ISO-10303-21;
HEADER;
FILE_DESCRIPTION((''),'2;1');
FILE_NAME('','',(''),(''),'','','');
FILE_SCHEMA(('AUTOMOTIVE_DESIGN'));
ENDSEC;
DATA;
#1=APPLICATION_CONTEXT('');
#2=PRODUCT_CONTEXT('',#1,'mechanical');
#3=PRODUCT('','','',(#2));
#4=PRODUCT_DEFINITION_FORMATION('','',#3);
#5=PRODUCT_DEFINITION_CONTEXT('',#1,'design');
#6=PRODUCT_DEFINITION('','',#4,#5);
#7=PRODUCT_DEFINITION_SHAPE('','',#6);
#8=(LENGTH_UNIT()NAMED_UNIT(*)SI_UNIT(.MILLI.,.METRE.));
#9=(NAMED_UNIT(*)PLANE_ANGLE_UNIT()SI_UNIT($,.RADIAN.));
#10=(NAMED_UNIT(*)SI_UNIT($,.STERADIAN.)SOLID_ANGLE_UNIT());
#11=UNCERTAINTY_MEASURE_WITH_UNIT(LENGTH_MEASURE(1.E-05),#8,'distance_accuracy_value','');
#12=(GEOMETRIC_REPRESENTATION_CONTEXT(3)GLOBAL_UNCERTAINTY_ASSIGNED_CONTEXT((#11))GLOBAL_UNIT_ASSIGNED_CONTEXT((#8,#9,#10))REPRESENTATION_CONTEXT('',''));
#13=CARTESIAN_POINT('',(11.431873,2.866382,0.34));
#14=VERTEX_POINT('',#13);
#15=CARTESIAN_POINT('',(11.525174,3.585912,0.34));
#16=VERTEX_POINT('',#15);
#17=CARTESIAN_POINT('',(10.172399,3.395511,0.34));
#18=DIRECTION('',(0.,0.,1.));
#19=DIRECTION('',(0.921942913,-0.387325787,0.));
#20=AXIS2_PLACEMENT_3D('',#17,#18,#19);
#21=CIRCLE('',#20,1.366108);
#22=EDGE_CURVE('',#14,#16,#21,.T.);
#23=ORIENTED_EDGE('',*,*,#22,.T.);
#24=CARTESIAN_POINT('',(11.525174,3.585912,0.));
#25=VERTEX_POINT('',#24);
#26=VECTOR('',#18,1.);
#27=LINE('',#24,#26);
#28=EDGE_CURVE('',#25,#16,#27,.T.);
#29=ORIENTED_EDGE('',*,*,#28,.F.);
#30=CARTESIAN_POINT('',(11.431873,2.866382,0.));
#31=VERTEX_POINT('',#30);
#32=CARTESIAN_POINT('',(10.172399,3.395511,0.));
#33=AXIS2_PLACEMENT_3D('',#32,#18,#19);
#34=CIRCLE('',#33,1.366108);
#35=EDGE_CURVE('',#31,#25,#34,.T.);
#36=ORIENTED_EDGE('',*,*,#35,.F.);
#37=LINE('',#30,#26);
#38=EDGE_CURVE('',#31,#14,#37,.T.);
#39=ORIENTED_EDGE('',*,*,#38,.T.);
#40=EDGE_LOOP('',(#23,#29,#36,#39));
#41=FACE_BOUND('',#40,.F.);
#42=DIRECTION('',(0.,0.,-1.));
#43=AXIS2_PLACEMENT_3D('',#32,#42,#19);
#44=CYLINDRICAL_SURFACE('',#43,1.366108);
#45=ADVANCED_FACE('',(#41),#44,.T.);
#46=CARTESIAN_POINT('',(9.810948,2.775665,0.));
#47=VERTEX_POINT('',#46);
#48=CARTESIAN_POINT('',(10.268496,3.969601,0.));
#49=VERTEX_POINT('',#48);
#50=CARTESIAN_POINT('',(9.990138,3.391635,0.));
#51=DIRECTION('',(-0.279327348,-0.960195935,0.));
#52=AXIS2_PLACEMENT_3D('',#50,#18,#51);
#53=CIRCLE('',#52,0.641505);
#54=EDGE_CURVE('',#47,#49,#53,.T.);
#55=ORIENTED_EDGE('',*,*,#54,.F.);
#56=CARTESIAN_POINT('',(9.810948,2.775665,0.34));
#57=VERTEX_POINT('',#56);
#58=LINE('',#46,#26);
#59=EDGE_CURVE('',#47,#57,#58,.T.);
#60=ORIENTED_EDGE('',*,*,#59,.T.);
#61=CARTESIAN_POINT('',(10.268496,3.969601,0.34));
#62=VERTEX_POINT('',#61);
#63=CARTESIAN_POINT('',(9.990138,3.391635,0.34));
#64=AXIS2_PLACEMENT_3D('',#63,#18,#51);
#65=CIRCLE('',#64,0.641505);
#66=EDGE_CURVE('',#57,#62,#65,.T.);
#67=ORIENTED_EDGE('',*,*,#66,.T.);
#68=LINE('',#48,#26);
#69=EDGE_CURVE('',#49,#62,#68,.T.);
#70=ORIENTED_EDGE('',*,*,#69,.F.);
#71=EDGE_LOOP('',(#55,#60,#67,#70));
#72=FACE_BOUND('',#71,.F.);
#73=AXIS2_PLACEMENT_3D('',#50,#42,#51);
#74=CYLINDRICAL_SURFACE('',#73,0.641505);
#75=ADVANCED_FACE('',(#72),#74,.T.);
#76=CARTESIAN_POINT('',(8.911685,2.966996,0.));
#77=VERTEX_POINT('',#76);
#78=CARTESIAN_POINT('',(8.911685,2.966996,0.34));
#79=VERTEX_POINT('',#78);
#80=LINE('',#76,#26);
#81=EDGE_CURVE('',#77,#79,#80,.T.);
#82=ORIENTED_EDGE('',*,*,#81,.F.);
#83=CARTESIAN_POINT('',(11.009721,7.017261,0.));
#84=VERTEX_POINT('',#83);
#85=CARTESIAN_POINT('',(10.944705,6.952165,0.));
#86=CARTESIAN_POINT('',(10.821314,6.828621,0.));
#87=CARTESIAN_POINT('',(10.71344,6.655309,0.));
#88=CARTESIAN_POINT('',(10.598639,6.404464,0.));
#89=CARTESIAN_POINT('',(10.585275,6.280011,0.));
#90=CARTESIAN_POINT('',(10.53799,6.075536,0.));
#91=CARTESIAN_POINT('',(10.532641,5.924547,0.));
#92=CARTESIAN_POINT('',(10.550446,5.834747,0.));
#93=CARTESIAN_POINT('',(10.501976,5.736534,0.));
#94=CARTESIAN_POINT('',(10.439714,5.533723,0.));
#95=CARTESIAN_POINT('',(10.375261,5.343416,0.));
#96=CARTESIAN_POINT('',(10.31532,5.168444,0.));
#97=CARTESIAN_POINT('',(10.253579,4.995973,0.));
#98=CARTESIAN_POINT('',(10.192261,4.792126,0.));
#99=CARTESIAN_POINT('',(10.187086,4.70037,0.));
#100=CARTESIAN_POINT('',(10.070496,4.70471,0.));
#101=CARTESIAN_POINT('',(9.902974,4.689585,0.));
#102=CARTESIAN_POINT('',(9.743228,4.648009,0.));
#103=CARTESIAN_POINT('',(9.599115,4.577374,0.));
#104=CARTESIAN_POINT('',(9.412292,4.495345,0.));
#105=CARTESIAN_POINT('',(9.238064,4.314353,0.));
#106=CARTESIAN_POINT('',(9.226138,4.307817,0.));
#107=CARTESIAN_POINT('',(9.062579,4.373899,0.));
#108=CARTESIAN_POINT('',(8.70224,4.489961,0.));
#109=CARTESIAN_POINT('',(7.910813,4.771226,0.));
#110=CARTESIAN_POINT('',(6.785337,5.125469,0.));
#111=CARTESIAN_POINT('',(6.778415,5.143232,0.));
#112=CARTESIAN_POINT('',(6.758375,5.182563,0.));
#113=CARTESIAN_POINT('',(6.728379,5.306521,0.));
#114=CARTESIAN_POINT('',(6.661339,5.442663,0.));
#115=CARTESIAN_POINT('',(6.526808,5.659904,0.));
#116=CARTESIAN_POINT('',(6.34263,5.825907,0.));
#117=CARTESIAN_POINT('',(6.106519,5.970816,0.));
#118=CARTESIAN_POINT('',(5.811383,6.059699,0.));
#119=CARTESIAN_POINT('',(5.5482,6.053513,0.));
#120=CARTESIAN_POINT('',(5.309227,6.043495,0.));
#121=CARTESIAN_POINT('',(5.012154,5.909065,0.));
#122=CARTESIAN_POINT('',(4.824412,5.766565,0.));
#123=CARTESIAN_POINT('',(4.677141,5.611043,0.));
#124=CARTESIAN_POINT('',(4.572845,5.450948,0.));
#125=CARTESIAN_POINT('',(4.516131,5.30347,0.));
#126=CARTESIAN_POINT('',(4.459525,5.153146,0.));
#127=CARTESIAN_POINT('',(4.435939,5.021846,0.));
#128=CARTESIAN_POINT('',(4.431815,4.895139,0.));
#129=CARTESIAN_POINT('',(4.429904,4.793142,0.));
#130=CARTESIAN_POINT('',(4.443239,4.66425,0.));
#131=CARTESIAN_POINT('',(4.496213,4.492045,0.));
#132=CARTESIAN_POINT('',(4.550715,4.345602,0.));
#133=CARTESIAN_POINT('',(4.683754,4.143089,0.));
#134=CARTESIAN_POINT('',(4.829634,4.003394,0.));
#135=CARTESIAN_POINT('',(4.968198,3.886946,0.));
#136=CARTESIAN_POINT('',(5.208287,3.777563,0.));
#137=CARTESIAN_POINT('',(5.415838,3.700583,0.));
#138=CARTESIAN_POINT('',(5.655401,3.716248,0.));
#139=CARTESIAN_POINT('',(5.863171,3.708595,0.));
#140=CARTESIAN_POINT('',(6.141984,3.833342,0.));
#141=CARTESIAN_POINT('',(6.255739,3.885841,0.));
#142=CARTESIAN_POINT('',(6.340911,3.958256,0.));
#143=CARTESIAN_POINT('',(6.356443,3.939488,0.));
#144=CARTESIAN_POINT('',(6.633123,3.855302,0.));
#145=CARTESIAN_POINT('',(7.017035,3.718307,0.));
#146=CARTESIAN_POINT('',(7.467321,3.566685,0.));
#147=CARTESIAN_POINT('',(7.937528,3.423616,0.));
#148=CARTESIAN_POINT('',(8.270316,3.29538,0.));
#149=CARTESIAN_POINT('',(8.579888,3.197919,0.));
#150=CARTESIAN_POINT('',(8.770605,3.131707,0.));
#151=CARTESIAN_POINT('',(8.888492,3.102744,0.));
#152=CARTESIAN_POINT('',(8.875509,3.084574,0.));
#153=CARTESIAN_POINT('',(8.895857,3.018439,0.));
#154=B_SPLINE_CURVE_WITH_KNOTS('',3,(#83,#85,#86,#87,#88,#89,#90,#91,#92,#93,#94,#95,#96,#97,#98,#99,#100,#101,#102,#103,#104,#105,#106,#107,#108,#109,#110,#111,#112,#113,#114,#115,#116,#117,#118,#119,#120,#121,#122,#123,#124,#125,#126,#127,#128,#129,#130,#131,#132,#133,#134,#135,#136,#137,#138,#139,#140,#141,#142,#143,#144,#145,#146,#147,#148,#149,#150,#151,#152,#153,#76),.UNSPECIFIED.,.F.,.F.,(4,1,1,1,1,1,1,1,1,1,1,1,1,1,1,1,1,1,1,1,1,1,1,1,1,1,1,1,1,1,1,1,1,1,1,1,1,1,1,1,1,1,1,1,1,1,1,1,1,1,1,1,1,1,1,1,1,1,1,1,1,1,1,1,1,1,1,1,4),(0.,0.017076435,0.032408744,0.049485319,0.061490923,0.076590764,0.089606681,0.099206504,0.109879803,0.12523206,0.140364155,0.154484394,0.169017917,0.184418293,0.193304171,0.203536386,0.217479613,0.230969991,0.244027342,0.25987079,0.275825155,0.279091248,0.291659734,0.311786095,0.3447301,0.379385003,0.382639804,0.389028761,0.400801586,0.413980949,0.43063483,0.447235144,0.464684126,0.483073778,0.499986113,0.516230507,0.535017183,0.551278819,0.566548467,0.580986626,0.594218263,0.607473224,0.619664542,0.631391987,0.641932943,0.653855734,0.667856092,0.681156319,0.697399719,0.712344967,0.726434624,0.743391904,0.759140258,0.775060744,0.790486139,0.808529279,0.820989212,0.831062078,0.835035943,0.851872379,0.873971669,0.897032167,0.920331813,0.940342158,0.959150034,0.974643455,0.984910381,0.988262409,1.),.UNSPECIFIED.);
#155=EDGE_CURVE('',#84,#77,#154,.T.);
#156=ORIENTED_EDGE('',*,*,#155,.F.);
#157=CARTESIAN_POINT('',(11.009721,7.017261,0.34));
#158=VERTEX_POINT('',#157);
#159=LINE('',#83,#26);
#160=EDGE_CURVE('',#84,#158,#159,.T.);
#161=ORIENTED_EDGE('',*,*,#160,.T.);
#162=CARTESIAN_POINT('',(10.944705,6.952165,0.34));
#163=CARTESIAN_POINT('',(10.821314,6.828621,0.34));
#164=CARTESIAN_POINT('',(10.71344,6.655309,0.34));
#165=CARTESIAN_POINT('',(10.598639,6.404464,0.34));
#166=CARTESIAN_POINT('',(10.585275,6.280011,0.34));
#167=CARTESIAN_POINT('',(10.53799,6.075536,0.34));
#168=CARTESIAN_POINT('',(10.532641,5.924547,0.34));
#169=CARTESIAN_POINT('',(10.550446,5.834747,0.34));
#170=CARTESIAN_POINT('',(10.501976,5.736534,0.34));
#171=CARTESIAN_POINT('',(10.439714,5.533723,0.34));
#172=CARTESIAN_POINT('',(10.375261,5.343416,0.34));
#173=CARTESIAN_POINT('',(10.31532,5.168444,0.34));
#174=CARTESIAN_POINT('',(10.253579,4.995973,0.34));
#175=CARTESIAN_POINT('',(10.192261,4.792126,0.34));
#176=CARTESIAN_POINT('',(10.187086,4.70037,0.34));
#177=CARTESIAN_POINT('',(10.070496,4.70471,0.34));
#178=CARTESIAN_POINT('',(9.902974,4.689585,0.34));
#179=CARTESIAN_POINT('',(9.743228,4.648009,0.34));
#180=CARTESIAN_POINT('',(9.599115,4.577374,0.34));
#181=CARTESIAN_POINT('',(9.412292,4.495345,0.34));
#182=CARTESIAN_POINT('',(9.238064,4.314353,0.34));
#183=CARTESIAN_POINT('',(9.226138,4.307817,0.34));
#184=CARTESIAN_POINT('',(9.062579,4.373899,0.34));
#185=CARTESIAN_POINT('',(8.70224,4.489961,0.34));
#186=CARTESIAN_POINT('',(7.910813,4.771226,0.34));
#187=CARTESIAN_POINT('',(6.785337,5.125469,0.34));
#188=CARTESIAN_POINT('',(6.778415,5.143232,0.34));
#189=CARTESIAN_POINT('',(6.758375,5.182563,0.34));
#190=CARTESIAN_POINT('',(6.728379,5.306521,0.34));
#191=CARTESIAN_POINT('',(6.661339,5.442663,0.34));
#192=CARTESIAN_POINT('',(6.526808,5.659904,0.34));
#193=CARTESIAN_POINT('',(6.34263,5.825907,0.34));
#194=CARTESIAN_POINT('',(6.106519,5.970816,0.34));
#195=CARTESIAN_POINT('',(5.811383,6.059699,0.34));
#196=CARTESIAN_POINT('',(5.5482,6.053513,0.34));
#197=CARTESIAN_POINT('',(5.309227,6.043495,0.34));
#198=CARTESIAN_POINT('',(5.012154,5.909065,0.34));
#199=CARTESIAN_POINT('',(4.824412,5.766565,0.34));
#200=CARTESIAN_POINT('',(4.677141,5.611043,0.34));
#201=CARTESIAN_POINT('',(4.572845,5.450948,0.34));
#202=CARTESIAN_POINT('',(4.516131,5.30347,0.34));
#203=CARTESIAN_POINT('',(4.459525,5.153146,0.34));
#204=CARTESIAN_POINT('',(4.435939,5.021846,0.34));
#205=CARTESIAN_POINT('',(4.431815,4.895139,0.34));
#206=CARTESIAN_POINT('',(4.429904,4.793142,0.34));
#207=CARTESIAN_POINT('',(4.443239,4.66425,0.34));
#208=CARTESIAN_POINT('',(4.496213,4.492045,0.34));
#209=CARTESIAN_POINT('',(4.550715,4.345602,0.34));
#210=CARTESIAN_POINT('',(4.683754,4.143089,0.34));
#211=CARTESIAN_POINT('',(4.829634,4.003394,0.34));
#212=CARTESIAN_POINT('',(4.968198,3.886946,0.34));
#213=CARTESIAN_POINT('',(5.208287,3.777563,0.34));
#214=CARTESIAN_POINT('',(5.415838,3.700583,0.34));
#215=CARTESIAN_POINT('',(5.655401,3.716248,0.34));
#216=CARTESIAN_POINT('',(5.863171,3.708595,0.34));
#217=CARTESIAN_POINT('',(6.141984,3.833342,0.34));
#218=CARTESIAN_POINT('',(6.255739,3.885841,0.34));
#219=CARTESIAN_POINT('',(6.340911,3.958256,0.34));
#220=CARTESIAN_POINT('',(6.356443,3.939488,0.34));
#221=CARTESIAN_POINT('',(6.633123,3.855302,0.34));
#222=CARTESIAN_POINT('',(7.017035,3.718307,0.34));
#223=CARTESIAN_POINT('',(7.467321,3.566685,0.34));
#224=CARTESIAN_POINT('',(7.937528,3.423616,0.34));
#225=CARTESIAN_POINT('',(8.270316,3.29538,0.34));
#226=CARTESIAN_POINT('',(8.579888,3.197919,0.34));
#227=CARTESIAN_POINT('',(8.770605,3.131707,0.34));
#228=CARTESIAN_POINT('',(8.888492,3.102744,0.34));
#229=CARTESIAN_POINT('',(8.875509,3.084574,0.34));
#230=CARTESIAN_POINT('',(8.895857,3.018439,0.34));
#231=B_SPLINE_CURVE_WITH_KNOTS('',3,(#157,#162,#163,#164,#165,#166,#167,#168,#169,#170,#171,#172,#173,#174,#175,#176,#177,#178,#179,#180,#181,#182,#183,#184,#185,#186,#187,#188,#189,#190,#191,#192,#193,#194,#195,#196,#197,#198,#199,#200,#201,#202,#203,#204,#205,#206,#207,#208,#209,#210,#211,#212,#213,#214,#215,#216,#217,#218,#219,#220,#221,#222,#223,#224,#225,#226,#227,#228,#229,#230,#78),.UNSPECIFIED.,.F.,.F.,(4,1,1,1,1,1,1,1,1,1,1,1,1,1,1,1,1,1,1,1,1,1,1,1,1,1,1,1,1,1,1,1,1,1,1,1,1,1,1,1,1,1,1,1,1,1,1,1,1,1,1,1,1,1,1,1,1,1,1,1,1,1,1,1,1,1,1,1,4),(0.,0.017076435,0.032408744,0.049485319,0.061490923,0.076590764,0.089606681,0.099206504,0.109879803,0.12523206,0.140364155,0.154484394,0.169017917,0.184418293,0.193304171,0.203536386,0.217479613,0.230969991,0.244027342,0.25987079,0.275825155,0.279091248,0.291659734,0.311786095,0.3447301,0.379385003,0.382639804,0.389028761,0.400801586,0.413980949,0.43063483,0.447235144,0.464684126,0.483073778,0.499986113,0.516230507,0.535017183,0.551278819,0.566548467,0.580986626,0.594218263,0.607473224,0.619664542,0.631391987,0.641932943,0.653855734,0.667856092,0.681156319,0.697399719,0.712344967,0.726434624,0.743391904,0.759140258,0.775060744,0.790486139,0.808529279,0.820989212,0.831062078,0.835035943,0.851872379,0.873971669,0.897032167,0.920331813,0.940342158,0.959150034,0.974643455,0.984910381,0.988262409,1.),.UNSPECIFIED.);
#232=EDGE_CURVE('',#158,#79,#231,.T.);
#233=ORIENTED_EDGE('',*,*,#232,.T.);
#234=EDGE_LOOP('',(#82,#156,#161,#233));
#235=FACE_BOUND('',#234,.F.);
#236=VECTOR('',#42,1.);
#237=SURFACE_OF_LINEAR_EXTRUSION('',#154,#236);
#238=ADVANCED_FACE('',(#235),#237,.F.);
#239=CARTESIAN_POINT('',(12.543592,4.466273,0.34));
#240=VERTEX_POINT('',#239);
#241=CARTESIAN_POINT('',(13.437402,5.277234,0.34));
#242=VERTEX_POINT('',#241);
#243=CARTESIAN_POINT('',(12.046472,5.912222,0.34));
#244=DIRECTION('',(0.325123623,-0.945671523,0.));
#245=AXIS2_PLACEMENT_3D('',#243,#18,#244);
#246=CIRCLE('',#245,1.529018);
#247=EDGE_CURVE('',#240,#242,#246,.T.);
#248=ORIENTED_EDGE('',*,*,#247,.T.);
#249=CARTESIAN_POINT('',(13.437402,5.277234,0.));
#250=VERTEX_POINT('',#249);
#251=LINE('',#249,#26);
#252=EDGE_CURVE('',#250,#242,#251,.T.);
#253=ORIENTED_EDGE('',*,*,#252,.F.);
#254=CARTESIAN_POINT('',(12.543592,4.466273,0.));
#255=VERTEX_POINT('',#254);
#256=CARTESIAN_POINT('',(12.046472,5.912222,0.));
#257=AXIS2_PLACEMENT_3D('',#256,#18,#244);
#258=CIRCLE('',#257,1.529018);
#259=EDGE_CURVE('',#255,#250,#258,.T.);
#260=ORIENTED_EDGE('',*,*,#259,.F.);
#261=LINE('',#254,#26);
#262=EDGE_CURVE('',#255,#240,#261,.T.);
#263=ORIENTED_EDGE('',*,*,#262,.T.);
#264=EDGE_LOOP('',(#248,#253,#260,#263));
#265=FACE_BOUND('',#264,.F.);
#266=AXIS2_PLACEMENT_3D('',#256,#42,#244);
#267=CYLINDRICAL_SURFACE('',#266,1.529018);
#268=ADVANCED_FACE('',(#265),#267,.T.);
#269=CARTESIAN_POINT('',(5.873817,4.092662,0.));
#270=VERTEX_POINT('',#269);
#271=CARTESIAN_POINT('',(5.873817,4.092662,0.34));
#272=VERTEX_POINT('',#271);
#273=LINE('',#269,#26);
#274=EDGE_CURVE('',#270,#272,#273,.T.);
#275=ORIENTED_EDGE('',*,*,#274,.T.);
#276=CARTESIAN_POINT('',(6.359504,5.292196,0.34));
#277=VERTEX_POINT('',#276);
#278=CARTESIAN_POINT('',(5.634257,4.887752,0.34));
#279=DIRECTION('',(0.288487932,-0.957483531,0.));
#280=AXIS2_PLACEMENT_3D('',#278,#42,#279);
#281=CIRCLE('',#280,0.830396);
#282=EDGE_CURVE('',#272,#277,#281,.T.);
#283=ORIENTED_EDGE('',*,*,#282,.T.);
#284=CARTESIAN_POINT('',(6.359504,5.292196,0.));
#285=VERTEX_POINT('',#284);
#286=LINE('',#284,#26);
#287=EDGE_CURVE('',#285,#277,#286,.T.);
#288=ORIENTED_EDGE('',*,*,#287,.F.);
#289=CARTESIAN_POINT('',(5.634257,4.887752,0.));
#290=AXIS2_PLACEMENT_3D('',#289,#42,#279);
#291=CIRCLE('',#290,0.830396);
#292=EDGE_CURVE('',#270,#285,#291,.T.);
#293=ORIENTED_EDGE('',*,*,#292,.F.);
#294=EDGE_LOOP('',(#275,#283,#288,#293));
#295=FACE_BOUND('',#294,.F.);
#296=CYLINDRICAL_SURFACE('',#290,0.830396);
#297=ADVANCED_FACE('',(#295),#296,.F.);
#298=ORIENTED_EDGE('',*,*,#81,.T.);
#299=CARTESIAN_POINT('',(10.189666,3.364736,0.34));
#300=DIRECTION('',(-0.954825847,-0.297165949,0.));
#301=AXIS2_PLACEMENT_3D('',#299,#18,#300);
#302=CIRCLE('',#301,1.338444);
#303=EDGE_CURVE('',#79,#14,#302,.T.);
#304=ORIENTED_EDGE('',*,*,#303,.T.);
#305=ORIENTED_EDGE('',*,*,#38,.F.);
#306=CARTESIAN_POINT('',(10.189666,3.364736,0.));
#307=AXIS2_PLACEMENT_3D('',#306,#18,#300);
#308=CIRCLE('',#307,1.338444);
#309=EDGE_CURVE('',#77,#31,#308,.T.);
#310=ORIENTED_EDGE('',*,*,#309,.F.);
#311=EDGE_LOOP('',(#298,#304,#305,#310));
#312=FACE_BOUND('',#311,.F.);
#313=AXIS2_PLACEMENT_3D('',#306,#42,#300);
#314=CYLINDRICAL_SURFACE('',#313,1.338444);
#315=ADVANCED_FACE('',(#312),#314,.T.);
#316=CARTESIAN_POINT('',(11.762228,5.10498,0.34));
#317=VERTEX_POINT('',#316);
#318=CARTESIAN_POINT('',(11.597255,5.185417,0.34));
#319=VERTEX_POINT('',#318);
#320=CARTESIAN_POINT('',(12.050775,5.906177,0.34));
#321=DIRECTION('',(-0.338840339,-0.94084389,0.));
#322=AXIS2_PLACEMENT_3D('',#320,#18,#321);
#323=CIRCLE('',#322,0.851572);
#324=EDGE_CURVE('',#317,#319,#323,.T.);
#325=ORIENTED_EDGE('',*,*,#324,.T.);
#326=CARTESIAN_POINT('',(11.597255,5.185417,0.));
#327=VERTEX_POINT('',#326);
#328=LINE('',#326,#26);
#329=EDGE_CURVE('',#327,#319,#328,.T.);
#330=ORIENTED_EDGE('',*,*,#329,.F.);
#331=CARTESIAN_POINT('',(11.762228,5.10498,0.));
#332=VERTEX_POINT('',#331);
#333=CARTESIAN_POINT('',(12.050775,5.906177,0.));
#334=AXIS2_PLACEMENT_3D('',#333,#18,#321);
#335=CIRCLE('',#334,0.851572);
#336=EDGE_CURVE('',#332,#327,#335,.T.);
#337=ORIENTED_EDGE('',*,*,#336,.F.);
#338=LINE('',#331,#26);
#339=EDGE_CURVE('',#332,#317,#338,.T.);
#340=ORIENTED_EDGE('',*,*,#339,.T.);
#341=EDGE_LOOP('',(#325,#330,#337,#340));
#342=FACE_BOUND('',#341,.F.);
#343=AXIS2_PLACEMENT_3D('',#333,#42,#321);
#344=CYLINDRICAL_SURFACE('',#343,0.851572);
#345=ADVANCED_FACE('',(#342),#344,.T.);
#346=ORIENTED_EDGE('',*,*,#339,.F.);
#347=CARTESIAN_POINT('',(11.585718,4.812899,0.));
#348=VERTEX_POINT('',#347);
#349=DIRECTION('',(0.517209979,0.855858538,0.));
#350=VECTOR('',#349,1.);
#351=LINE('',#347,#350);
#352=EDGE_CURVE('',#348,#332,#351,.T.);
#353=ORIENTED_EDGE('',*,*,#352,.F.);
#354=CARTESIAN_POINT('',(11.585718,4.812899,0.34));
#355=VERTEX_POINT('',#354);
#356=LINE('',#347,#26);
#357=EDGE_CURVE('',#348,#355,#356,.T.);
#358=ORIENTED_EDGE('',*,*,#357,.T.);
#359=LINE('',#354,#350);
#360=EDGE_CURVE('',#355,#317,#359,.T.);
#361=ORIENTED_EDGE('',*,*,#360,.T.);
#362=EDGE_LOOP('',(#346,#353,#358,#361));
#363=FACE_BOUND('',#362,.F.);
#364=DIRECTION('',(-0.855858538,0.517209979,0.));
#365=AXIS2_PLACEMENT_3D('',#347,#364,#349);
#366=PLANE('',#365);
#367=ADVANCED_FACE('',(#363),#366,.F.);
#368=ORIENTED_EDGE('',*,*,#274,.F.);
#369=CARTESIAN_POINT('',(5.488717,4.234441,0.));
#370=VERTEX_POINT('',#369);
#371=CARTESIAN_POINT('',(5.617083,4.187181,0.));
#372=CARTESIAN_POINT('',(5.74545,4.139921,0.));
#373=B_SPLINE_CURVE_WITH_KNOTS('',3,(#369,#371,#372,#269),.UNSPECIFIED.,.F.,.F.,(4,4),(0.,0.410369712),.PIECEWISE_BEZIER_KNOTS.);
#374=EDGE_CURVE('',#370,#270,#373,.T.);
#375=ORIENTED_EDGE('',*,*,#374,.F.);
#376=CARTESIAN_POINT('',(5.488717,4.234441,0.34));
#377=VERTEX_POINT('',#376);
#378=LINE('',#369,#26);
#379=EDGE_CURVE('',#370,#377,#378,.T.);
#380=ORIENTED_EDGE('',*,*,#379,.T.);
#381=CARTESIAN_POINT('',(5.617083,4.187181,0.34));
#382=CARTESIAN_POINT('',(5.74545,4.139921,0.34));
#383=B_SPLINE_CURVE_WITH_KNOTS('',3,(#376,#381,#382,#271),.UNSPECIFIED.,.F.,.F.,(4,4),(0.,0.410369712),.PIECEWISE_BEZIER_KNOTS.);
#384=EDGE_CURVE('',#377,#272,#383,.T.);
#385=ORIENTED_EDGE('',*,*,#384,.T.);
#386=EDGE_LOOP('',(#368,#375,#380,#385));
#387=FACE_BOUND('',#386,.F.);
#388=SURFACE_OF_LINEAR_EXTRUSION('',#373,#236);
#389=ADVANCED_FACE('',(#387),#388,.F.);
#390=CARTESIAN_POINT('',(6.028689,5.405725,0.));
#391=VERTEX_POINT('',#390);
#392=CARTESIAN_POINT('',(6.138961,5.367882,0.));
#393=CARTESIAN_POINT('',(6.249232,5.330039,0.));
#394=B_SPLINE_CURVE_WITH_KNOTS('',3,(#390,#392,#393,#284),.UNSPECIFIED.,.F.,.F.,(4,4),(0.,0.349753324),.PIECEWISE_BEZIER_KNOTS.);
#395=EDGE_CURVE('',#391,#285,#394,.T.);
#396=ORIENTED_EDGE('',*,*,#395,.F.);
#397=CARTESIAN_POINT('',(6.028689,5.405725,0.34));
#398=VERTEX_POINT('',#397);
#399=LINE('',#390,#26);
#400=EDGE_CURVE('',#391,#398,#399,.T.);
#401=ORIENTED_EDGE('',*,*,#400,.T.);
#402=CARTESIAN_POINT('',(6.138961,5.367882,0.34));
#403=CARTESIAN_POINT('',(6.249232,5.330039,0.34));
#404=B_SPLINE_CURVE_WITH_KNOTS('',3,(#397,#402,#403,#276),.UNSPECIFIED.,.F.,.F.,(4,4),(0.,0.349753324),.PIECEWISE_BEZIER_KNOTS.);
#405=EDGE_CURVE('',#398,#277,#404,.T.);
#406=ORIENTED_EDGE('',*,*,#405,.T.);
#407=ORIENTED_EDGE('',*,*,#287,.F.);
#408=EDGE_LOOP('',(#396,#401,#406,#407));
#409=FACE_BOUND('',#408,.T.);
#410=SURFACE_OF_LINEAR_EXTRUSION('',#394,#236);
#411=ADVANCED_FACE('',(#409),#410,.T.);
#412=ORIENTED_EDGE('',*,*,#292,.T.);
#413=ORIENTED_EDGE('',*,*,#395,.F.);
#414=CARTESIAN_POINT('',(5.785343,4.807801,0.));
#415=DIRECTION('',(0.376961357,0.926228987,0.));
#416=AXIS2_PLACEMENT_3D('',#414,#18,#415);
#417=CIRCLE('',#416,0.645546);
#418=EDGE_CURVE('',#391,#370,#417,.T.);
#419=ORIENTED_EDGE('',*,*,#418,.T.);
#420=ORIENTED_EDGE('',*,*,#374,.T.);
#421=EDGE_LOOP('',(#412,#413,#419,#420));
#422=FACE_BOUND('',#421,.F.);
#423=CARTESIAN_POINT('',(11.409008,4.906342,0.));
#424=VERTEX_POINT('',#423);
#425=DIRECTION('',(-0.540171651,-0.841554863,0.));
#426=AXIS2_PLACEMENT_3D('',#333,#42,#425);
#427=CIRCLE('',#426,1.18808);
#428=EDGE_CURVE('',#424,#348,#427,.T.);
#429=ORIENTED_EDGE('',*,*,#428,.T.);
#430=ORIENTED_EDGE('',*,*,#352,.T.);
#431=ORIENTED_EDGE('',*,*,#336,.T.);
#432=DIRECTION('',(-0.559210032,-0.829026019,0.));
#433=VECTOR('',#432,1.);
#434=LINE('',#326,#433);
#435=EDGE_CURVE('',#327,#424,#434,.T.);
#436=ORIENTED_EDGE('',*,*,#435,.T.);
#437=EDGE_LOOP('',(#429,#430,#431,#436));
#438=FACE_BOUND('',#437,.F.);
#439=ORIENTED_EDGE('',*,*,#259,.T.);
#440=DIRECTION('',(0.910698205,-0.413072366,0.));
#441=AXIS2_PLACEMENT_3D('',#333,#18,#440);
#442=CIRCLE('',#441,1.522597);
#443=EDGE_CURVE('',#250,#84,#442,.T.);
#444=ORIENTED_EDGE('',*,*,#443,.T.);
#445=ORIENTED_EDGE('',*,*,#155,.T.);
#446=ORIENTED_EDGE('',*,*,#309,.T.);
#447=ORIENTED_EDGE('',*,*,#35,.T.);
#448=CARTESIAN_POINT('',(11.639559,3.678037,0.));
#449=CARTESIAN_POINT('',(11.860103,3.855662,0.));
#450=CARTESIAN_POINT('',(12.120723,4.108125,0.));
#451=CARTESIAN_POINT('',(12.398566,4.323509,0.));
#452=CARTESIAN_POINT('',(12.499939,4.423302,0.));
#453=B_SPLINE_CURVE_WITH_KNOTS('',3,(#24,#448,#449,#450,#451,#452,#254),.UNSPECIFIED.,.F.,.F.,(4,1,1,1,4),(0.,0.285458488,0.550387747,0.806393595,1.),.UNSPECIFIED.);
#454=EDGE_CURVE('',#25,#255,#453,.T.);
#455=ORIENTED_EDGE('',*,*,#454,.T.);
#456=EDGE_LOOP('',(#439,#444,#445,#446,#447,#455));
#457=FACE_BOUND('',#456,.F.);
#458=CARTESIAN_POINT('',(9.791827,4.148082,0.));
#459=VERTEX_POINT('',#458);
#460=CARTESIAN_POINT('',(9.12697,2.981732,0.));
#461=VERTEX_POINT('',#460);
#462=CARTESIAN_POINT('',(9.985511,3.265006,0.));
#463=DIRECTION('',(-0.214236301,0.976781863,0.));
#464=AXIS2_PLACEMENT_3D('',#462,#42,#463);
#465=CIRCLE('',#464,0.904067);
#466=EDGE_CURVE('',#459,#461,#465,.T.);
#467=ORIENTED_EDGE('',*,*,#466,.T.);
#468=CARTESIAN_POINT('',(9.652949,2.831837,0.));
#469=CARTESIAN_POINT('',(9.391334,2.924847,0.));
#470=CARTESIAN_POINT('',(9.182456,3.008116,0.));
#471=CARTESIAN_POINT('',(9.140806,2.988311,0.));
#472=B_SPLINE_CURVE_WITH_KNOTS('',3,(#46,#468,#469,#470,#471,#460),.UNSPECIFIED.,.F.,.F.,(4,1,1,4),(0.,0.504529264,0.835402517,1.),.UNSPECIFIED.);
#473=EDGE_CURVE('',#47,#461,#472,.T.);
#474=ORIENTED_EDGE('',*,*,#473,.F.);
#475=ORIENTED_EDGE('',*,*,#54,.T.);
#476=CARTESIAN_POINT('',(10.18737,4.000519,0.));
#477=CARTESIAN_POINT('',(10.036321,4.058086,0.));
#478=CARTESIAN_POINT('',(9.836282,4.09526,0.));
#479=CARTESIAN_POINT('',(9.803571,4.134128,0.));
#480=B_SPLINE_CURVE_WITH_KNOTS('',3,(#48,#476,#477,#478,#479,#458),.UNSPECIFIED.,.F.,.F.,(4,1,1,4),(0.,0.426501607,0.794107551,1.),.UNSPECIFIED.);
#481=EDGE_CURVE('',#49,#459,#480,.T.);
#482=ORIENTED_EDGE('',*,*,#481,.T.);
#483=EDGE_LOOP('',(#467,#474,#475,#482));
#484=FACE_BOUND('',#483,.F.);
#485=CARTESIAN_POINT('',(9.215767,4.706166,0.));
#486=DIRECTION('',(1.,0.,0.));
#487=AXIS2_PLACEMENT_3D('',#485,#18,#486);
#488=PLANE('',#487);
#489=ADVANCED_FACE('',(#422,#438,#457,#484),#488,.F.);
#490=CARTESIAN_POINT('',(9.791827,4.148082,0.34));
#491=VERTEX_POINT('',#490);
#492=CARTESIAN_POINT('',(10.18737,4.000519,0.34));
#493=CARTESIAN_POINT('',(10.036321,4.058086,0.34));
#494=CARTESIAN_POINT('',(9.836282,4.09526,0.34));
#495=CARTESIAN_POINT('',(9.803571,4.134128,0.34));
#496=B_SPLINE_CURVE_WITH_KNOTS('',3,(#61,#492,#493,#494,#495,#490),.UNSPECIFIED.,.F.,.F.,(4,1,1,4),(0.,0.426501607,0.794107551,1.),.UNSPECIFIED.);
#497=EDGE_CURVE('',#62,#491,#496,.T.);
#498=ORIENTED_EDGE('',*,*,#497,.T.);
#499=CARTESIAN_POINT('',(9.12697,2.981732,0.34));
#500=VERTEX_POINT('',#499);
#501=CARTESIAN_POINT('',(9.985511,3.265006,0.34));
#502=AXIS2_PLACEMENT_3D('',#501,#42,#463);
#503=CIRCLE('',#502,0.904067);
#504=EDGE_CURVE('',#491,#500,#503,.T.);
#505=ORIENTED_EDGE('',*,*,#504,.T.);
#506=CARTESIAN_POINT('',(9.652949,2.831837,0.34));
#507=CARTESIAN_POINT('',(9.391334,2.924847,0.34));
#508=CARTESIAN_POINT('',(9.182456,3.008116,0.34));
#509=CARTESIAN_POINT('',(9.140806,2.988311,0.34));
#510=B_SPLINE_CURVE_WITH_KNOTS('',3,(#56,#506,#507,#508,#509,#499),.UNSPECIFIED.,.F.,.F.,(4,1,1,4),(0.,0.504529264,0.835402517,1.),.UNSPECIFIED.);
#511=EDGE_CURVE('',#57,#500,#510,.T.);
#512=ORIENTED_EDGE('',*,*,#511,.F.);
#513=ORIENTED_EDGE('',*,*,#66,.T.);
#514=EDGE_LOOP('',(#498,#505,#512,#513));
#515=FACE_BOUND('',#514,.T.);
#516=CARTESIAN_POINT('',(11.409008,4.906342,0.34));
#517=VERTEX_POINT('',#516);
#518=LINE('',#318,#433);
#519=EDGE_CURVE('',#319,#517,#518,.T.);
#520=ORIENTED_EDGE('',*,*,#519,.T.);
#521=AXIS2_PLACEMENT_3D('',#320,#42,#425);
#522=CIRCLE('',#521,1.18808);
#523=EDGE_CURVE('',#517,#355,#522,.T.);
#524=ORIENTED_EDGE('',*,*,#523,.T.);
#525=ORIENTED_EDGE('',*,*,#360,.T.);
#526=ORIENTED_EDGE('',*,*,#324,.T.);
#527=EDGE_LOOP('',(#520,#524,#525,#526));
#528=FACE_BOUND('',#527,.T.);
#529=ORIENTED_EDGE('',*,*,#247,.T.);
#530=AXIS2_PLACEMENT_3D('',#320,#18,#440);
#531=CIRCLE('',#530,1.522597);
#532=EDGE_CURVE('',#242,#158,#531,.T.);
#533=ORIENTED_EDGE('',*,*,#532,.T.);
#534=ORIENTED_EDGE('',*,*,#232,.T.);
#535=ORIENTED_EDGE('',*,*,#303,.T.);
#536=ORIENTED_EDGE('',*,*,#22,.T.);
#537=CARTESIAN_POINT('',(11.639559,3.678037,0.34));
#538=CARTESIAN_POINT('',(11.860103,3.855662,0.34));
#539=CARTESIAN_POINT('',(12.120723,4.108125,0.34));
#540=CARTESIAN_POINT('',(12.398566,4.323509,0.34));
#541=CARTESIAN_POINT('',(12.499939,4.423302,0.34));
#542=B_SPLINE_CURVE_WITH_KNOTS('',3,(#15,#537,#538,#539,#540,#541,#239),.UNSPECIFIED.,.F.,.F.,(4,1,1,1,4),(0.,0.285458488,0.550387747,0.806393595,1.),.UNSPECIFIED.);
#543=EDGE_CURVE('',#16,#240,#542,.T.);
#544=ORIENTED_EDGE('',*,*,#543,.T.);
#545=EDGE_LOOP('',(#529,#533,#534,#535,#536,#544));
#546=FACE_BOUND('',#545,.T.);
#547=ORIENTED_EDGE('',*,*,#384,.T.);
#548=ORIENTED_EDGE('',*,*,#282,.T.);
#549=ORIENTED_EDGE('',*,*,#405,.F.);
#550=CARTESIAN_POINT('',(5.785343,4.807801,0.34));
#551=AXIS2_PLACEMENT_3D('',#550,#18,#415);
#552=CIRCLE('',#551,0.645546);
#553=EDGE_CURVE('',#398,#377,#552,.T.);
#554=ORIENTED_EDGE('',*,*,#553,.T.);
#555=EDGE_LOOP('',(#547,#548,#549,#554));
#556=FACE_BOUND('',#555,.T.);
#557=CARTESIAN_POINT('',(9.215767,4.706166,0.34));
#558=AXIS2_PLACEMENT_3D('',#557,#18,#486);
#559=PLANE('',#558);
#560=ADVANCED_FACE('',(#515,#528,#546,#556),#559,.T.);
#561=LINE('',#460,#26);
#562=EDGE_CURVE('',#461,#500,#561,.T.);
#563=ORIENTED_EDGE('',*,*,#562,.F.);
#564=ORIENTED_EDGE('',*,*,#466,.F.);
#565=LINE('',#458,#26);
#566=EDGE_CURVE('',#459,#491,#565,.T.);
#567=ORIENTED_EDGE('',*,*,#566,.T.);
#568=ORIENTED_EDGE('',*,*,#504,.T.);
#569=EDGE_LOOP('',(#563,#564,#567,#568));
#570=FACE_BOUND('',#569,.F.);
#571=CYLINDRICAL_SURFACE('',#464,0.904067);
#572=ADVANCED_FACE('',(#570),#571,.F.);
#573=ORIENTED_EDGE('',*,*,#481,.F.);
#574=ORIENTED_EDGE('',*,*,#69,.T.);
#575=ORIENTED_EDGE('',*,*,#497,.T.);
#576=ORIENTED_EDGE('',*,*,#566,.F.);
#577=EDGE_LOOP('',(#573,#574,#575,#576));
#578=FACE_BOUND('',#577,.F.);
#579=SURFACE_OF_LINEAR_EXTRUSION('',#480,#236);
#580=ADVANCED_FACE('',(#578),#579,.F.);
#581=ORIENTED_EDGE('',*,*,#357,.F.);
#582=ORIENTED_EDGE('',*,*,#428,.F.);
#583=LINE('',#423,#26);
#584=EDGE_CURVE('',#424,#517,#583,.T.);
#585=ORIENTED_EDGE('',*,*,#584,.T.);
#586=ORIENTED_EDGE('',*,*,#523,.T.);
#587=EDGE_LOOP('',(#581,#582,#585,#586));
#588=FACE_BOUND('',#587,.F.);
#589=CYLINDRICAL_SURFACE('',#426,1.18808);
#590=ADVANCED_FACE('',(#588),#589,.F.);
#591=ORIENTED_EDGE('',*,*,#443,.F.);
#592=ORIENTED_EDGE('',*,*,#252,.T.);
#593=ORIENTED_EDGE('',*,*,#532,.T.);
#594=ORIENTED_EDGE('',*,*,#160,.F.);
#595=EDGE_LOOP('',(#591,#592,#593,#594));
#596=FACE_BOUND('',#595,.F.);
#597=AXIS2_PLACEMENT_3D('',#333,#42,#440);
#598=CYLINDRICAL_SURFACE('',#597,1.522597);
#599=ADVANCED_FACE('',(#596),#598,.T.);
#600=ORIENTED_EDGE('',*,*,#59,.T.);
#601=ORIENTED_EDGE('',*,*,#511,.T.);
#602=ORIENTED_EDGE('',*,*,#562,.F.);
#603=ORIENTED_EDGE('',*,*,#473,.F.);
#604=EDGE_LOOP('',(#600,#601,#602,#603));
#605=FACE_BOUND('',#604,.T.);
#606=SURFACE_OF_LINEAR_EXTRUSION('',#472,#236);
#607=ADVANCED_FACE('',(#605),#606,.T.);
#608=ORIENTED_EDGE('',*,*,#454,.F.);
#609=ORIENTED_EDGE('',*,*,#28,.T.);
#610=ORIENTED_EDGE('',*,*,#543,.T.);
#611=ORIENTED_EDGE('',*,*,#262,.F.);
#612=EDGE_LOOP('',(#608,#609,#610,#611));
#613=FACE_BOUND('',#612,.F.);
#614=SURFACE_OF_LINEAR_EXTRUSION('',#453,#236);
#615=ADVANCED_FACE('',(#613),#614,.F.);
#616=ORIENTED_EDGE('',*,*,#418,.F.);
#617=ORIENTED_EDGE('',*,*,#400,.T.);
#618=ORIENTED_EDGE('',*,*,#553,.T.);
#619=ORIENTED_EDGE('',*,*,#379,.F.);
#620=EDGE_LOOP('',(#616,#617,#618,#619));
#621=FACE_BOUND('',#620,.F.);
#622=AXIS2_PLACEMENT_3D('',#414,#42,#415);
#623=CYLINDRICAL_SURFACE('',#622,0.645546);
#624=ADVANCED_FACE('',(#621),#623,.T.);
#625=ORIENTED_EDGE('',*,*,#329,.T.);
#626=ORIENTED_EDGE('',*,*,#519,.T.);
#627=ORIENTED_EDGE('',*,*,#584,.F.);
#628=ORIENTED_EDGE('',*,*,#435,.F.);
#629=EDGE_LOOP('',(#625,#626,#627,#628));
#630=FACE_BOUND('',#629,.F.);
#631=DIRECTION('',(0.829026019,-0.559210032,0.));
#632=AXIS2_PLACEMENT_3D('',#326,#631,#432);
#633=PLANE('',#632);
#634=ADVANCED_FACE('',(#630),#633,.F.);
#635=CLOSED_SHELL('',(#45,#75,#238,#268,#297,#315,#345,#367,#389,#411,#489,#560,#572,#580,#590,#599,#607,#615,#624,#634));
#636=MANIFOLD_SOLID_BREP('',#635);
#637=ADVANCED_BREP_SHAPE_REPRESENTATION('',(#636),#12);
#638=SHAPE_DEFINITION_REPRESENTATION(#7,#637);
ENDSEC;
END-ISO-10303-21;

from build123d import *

# Parameters (mm, degrees)
F1_DEPTH = 0.34


with BuildPart() as f1:
    # F0 (on Top) → F1 (new body)
    with BuildSketch(Plane.XY):
        with BuildLine():
            ThreePointArc((12.5435916707, 4.4662733562), (13.0738942871, 4.7798357138), (13.4374015033, 5.2772336639))
            ThreePointArc((13.4374015033, 5.2772336639), (12.9377806529, 7.1437238073), (11.0097210854, 7.0172613487))
            add(Edge.make_bspline(
                [(11.0097210854, 7.0172613487), (10.9447051634, 6.9521651025), (10.8213138172, 6.828621312), (10.7134398057, 6.6553094476), (10.5986385953, 6.4044635299), (10.5852745929, 6.2800106213), (10.5379902595, 6.0755357424), (10.532641415, 5.9245472261), (10.5504455416, 5.8347468178), (10.5019764212, 5.7365342747), (10.4397142968, 5.5337231436), (10.375261323, 5.3434155066), (10.3153198529, 5.1684436509), (10.2535791983, 4.9959734311), (10.192261151, 4.792126433), (10.1870856309, 4.7003697137), (10.0704957444, 4.7047098791), (9.9029736524, 4.689585449), (9.7432276518, 4.6480091898), (9.5991153561, 4.5773740114), (9.4122918669, 4.4953454553), (9.2380637704, 4.3143525478), (9.226138255, 4.3078173432), (9.0625792613, 4.3738985319), (8.7022397987, 4.4899613373), (7.9108127426, 4.7712264721), (6.7853369659, 5.1254694363), (6.7784148562, 5.1432318698), (6.7583748053, 5.182563061), (6.7283790845, 5.3065209105), (6.6613391959, 5.4426632807), (6.5268084713, 5.6599041987), (6.3426299984, 5.8259074276), (6.1065194879, 5.9708161427), (5.8113829572, 6.0596988824), (5.5482004059, 6.0535126795), (5.3092270034, 6.0434953724), (5.0121535007, 5.9090651351), (4.8244123104, 5.766564721), (4.6771406378, 5.6110427008), (4.5728445399, 5.4509483053), (4.5161311855, 5.303469558), (4.4595252707, 5.1531458367), (4.4359389685, 5.0218458071), (4.4318146893, 4.8951394235), (4.4299044209, 4.7931419108), (4.443239236, 4.6642497523), (4.4962134852, 4.4920445605), (4.5507146032, 4.3456018005), (4.683754274, 4.1430893384), (4.8296342356, 4.0033941987), (4.9681975488, 3.8869455143), (5.2082866341, 3.7775627435), (5.415837785, 3.7005828627), (5.65540081, 3.7162475043), (5.8631708771, 3.7085948739), (6.1419840479, 3.8333416047), (6.2557392549, 3.885841191), (6.340910746, 3.9582559645), (6.3564428304, 3.9394884809), (6.6331232327, 3.8553018171), (7.017035295, 3.7183065897), (7.4673209193, 3.5666848215), (7.9375280732, 3.4236158835), (8.2703155258, 3.2953804639), (8.5798878018, 3.19791879), (8.7706047451, 3.1317065753), (8.8884916414, 3.1027442997), (8.8755093193, 3.0845739833), (8.8958572625, 3.0184394051), (8.9116850868, 2.9669960495)],
                knots=[0, 0, 0, 0, 0.0170764354, 0.0324087436, 0.0494853185, 0.0614909234, 0.0765907641, 0.0896066807, 0.0992065043, 0.1098798034, 0.1252320597, 0.1403641546, 0.154484394, 0.1690179169, 0.1844182929, 0.1933041714, 0.2035363862, 0.2174796134, 0.2309699915, 0.2440273425, 0.2598707904, 0.2758251546, 0.279091248, 0.2916597345, 0.3117860951, 0.3447300998, 0.3793850026, 0.3826398038, 0.3890287615, 0.4008015862, 0.4139809493, 0.4306348299, 0.4472351439, 0.4646841261, 0.4830737779, 0.4999861134, 0.5162305069, 0.5350171827, 0.5512788193, 0.566548467, 0.5809866264, 0.5942182628, 0.6074732244, 0.6196645419, 0.6313919874, 0.6419329427, 0.6538557338, 0.667856092, 0.6811563187, 0.6973997189, 0.7123449667, 0.726434624, 0.7433919041, 0.7591402584, 0.7750607437, 0.7904861385, 0.8085292788, 0.8209892124, 0.8310620776, 0.8350359427, 0.8518723792, 0.8739716692, 0.8970321672, 0.9203318128, 0.9403421577, 0.9591500339, 0.9746434548, 0.9849103812, 0.988262409, 1, 1, 1, 1], degree=3))
            ThreePointArc((8.9116850868, 2.9669960495), (10.1362740398, 2.027357111), (11.4318728447, 2.866382245))
            ThreePointArc((11.4318728447, 2.866382245), (11.5271651453, 3.2198396785), (11.5251736715, 3.5859118216))
            add(Edge.make_bspline(
                [(11.5251736715, 3.5859118216), (11.639558955, 3.6780369386), (11.8601033115, 3.8556618397), (12.1207225717, 4.1081252226), (12.3985660374, 4.3235088765), (12.4999394986, 4.4233017829), (12.5435916707, 4.4662733562)],
                knots=[0, 0, 0, 0, 0.2854584876, 0.5503877473, 0.8063935948, 1, 1, 1, 1], degree=3))
        make_face()
        with BuildLine():
            ThreePointArc((9.7918268293, 4.148082342), (10.7709329682, 2.8172902202), (9.1269696131, 2.9817316681))
            add(Edge.make_bspline(
                [(9.8109478131, 2.7756653726), (9.6529491697, 2.8318372808), (9.3913340886, 2.9248470561), (9.182455729, 3.0081157039), (9.1408058724, 2.9883109061), (9.1269696131, 2.9817316681)],
                knots=[0, 0, 0, 0, 0.5045292641, 0.8354025166, 1, 1, 1, 1], degree=3))
            ThreePointArc((9.8109478131, 2.7756653726), (10.5891613009, 3.1620734058), (10.2684963495, 3.9696013555))
            add(Edge.make_bspline(
                [(10.2684963495, 3.9696013555), (10.1873703785, 4.0005193595), (10.0363211327, 4.0580858961), (9.8362818725, 4.0952596114), (9.803570562, 4.134128109), (9.7918268293, 4.148082342)],
                knots=[0, 0, 0, 0, 0.4265016072, 0.7941075507, 1, 1, 1, 1], degree=3))
        make_face(mode=Mode.SUBTRACT)
        with BuildLine():
            ThreePointArc((5.8738165535, 4.0926616639), (4.864560242, 5.1994000643), (6.3595040701, 5.2921962924))
            add(Edge.make_bspline(
                [(6.0286889784, 5.4057249799), (6.1389606756, 5.3678820841), (6.2492323729, 5.3300391883), (6.3595040701, 5.2921962924)],
                knots=[0, 0, 0, 0, 0.3497533242, 0.3497533242, 0.3497533242, 0.3497533242], degree=3))
            ThreePointArc((6.0286889784, 5.4057249799), (5.1990952347, 5.0780668185), (5.4887165315, 4.2344406247))
            add(Edge.make_bspline(
                [(5.4887165315, 4.2344406247), (5.6170832055, 4.1871809711), (5.7454498795, 4.1399213175), (5.8738165535, 4.0926616639)],
                knots=[0, 0, 0, 0, 0.4103697121, 0.4103697121, 0.4103697121, 0.4103697121], degree=3))
        make_face(mode=Mode.SUBTRACT)
        with BuildLine():
            Line((11.5857183483, 4.8128990993), (11.7622278993, 5.104980096))
            ThreePointArc((11.7622278993, 5.104980096), (12.4239819408, 6.6716120774), (11.5972545378, 5.1854169429))
            Line((11.5972545378, 5.1854169429), (11.4090079715, 4.9063423686))
            ThreePointArc((11.4090079715, 4.9063423686), (12.6061553434, 6.9564553801), (11.5857183483, 4.8128990993))
        make_face(mode=Mode.SUBTRACT)
    extrude(amount=F1_DEPTH)


solid = f1.part
